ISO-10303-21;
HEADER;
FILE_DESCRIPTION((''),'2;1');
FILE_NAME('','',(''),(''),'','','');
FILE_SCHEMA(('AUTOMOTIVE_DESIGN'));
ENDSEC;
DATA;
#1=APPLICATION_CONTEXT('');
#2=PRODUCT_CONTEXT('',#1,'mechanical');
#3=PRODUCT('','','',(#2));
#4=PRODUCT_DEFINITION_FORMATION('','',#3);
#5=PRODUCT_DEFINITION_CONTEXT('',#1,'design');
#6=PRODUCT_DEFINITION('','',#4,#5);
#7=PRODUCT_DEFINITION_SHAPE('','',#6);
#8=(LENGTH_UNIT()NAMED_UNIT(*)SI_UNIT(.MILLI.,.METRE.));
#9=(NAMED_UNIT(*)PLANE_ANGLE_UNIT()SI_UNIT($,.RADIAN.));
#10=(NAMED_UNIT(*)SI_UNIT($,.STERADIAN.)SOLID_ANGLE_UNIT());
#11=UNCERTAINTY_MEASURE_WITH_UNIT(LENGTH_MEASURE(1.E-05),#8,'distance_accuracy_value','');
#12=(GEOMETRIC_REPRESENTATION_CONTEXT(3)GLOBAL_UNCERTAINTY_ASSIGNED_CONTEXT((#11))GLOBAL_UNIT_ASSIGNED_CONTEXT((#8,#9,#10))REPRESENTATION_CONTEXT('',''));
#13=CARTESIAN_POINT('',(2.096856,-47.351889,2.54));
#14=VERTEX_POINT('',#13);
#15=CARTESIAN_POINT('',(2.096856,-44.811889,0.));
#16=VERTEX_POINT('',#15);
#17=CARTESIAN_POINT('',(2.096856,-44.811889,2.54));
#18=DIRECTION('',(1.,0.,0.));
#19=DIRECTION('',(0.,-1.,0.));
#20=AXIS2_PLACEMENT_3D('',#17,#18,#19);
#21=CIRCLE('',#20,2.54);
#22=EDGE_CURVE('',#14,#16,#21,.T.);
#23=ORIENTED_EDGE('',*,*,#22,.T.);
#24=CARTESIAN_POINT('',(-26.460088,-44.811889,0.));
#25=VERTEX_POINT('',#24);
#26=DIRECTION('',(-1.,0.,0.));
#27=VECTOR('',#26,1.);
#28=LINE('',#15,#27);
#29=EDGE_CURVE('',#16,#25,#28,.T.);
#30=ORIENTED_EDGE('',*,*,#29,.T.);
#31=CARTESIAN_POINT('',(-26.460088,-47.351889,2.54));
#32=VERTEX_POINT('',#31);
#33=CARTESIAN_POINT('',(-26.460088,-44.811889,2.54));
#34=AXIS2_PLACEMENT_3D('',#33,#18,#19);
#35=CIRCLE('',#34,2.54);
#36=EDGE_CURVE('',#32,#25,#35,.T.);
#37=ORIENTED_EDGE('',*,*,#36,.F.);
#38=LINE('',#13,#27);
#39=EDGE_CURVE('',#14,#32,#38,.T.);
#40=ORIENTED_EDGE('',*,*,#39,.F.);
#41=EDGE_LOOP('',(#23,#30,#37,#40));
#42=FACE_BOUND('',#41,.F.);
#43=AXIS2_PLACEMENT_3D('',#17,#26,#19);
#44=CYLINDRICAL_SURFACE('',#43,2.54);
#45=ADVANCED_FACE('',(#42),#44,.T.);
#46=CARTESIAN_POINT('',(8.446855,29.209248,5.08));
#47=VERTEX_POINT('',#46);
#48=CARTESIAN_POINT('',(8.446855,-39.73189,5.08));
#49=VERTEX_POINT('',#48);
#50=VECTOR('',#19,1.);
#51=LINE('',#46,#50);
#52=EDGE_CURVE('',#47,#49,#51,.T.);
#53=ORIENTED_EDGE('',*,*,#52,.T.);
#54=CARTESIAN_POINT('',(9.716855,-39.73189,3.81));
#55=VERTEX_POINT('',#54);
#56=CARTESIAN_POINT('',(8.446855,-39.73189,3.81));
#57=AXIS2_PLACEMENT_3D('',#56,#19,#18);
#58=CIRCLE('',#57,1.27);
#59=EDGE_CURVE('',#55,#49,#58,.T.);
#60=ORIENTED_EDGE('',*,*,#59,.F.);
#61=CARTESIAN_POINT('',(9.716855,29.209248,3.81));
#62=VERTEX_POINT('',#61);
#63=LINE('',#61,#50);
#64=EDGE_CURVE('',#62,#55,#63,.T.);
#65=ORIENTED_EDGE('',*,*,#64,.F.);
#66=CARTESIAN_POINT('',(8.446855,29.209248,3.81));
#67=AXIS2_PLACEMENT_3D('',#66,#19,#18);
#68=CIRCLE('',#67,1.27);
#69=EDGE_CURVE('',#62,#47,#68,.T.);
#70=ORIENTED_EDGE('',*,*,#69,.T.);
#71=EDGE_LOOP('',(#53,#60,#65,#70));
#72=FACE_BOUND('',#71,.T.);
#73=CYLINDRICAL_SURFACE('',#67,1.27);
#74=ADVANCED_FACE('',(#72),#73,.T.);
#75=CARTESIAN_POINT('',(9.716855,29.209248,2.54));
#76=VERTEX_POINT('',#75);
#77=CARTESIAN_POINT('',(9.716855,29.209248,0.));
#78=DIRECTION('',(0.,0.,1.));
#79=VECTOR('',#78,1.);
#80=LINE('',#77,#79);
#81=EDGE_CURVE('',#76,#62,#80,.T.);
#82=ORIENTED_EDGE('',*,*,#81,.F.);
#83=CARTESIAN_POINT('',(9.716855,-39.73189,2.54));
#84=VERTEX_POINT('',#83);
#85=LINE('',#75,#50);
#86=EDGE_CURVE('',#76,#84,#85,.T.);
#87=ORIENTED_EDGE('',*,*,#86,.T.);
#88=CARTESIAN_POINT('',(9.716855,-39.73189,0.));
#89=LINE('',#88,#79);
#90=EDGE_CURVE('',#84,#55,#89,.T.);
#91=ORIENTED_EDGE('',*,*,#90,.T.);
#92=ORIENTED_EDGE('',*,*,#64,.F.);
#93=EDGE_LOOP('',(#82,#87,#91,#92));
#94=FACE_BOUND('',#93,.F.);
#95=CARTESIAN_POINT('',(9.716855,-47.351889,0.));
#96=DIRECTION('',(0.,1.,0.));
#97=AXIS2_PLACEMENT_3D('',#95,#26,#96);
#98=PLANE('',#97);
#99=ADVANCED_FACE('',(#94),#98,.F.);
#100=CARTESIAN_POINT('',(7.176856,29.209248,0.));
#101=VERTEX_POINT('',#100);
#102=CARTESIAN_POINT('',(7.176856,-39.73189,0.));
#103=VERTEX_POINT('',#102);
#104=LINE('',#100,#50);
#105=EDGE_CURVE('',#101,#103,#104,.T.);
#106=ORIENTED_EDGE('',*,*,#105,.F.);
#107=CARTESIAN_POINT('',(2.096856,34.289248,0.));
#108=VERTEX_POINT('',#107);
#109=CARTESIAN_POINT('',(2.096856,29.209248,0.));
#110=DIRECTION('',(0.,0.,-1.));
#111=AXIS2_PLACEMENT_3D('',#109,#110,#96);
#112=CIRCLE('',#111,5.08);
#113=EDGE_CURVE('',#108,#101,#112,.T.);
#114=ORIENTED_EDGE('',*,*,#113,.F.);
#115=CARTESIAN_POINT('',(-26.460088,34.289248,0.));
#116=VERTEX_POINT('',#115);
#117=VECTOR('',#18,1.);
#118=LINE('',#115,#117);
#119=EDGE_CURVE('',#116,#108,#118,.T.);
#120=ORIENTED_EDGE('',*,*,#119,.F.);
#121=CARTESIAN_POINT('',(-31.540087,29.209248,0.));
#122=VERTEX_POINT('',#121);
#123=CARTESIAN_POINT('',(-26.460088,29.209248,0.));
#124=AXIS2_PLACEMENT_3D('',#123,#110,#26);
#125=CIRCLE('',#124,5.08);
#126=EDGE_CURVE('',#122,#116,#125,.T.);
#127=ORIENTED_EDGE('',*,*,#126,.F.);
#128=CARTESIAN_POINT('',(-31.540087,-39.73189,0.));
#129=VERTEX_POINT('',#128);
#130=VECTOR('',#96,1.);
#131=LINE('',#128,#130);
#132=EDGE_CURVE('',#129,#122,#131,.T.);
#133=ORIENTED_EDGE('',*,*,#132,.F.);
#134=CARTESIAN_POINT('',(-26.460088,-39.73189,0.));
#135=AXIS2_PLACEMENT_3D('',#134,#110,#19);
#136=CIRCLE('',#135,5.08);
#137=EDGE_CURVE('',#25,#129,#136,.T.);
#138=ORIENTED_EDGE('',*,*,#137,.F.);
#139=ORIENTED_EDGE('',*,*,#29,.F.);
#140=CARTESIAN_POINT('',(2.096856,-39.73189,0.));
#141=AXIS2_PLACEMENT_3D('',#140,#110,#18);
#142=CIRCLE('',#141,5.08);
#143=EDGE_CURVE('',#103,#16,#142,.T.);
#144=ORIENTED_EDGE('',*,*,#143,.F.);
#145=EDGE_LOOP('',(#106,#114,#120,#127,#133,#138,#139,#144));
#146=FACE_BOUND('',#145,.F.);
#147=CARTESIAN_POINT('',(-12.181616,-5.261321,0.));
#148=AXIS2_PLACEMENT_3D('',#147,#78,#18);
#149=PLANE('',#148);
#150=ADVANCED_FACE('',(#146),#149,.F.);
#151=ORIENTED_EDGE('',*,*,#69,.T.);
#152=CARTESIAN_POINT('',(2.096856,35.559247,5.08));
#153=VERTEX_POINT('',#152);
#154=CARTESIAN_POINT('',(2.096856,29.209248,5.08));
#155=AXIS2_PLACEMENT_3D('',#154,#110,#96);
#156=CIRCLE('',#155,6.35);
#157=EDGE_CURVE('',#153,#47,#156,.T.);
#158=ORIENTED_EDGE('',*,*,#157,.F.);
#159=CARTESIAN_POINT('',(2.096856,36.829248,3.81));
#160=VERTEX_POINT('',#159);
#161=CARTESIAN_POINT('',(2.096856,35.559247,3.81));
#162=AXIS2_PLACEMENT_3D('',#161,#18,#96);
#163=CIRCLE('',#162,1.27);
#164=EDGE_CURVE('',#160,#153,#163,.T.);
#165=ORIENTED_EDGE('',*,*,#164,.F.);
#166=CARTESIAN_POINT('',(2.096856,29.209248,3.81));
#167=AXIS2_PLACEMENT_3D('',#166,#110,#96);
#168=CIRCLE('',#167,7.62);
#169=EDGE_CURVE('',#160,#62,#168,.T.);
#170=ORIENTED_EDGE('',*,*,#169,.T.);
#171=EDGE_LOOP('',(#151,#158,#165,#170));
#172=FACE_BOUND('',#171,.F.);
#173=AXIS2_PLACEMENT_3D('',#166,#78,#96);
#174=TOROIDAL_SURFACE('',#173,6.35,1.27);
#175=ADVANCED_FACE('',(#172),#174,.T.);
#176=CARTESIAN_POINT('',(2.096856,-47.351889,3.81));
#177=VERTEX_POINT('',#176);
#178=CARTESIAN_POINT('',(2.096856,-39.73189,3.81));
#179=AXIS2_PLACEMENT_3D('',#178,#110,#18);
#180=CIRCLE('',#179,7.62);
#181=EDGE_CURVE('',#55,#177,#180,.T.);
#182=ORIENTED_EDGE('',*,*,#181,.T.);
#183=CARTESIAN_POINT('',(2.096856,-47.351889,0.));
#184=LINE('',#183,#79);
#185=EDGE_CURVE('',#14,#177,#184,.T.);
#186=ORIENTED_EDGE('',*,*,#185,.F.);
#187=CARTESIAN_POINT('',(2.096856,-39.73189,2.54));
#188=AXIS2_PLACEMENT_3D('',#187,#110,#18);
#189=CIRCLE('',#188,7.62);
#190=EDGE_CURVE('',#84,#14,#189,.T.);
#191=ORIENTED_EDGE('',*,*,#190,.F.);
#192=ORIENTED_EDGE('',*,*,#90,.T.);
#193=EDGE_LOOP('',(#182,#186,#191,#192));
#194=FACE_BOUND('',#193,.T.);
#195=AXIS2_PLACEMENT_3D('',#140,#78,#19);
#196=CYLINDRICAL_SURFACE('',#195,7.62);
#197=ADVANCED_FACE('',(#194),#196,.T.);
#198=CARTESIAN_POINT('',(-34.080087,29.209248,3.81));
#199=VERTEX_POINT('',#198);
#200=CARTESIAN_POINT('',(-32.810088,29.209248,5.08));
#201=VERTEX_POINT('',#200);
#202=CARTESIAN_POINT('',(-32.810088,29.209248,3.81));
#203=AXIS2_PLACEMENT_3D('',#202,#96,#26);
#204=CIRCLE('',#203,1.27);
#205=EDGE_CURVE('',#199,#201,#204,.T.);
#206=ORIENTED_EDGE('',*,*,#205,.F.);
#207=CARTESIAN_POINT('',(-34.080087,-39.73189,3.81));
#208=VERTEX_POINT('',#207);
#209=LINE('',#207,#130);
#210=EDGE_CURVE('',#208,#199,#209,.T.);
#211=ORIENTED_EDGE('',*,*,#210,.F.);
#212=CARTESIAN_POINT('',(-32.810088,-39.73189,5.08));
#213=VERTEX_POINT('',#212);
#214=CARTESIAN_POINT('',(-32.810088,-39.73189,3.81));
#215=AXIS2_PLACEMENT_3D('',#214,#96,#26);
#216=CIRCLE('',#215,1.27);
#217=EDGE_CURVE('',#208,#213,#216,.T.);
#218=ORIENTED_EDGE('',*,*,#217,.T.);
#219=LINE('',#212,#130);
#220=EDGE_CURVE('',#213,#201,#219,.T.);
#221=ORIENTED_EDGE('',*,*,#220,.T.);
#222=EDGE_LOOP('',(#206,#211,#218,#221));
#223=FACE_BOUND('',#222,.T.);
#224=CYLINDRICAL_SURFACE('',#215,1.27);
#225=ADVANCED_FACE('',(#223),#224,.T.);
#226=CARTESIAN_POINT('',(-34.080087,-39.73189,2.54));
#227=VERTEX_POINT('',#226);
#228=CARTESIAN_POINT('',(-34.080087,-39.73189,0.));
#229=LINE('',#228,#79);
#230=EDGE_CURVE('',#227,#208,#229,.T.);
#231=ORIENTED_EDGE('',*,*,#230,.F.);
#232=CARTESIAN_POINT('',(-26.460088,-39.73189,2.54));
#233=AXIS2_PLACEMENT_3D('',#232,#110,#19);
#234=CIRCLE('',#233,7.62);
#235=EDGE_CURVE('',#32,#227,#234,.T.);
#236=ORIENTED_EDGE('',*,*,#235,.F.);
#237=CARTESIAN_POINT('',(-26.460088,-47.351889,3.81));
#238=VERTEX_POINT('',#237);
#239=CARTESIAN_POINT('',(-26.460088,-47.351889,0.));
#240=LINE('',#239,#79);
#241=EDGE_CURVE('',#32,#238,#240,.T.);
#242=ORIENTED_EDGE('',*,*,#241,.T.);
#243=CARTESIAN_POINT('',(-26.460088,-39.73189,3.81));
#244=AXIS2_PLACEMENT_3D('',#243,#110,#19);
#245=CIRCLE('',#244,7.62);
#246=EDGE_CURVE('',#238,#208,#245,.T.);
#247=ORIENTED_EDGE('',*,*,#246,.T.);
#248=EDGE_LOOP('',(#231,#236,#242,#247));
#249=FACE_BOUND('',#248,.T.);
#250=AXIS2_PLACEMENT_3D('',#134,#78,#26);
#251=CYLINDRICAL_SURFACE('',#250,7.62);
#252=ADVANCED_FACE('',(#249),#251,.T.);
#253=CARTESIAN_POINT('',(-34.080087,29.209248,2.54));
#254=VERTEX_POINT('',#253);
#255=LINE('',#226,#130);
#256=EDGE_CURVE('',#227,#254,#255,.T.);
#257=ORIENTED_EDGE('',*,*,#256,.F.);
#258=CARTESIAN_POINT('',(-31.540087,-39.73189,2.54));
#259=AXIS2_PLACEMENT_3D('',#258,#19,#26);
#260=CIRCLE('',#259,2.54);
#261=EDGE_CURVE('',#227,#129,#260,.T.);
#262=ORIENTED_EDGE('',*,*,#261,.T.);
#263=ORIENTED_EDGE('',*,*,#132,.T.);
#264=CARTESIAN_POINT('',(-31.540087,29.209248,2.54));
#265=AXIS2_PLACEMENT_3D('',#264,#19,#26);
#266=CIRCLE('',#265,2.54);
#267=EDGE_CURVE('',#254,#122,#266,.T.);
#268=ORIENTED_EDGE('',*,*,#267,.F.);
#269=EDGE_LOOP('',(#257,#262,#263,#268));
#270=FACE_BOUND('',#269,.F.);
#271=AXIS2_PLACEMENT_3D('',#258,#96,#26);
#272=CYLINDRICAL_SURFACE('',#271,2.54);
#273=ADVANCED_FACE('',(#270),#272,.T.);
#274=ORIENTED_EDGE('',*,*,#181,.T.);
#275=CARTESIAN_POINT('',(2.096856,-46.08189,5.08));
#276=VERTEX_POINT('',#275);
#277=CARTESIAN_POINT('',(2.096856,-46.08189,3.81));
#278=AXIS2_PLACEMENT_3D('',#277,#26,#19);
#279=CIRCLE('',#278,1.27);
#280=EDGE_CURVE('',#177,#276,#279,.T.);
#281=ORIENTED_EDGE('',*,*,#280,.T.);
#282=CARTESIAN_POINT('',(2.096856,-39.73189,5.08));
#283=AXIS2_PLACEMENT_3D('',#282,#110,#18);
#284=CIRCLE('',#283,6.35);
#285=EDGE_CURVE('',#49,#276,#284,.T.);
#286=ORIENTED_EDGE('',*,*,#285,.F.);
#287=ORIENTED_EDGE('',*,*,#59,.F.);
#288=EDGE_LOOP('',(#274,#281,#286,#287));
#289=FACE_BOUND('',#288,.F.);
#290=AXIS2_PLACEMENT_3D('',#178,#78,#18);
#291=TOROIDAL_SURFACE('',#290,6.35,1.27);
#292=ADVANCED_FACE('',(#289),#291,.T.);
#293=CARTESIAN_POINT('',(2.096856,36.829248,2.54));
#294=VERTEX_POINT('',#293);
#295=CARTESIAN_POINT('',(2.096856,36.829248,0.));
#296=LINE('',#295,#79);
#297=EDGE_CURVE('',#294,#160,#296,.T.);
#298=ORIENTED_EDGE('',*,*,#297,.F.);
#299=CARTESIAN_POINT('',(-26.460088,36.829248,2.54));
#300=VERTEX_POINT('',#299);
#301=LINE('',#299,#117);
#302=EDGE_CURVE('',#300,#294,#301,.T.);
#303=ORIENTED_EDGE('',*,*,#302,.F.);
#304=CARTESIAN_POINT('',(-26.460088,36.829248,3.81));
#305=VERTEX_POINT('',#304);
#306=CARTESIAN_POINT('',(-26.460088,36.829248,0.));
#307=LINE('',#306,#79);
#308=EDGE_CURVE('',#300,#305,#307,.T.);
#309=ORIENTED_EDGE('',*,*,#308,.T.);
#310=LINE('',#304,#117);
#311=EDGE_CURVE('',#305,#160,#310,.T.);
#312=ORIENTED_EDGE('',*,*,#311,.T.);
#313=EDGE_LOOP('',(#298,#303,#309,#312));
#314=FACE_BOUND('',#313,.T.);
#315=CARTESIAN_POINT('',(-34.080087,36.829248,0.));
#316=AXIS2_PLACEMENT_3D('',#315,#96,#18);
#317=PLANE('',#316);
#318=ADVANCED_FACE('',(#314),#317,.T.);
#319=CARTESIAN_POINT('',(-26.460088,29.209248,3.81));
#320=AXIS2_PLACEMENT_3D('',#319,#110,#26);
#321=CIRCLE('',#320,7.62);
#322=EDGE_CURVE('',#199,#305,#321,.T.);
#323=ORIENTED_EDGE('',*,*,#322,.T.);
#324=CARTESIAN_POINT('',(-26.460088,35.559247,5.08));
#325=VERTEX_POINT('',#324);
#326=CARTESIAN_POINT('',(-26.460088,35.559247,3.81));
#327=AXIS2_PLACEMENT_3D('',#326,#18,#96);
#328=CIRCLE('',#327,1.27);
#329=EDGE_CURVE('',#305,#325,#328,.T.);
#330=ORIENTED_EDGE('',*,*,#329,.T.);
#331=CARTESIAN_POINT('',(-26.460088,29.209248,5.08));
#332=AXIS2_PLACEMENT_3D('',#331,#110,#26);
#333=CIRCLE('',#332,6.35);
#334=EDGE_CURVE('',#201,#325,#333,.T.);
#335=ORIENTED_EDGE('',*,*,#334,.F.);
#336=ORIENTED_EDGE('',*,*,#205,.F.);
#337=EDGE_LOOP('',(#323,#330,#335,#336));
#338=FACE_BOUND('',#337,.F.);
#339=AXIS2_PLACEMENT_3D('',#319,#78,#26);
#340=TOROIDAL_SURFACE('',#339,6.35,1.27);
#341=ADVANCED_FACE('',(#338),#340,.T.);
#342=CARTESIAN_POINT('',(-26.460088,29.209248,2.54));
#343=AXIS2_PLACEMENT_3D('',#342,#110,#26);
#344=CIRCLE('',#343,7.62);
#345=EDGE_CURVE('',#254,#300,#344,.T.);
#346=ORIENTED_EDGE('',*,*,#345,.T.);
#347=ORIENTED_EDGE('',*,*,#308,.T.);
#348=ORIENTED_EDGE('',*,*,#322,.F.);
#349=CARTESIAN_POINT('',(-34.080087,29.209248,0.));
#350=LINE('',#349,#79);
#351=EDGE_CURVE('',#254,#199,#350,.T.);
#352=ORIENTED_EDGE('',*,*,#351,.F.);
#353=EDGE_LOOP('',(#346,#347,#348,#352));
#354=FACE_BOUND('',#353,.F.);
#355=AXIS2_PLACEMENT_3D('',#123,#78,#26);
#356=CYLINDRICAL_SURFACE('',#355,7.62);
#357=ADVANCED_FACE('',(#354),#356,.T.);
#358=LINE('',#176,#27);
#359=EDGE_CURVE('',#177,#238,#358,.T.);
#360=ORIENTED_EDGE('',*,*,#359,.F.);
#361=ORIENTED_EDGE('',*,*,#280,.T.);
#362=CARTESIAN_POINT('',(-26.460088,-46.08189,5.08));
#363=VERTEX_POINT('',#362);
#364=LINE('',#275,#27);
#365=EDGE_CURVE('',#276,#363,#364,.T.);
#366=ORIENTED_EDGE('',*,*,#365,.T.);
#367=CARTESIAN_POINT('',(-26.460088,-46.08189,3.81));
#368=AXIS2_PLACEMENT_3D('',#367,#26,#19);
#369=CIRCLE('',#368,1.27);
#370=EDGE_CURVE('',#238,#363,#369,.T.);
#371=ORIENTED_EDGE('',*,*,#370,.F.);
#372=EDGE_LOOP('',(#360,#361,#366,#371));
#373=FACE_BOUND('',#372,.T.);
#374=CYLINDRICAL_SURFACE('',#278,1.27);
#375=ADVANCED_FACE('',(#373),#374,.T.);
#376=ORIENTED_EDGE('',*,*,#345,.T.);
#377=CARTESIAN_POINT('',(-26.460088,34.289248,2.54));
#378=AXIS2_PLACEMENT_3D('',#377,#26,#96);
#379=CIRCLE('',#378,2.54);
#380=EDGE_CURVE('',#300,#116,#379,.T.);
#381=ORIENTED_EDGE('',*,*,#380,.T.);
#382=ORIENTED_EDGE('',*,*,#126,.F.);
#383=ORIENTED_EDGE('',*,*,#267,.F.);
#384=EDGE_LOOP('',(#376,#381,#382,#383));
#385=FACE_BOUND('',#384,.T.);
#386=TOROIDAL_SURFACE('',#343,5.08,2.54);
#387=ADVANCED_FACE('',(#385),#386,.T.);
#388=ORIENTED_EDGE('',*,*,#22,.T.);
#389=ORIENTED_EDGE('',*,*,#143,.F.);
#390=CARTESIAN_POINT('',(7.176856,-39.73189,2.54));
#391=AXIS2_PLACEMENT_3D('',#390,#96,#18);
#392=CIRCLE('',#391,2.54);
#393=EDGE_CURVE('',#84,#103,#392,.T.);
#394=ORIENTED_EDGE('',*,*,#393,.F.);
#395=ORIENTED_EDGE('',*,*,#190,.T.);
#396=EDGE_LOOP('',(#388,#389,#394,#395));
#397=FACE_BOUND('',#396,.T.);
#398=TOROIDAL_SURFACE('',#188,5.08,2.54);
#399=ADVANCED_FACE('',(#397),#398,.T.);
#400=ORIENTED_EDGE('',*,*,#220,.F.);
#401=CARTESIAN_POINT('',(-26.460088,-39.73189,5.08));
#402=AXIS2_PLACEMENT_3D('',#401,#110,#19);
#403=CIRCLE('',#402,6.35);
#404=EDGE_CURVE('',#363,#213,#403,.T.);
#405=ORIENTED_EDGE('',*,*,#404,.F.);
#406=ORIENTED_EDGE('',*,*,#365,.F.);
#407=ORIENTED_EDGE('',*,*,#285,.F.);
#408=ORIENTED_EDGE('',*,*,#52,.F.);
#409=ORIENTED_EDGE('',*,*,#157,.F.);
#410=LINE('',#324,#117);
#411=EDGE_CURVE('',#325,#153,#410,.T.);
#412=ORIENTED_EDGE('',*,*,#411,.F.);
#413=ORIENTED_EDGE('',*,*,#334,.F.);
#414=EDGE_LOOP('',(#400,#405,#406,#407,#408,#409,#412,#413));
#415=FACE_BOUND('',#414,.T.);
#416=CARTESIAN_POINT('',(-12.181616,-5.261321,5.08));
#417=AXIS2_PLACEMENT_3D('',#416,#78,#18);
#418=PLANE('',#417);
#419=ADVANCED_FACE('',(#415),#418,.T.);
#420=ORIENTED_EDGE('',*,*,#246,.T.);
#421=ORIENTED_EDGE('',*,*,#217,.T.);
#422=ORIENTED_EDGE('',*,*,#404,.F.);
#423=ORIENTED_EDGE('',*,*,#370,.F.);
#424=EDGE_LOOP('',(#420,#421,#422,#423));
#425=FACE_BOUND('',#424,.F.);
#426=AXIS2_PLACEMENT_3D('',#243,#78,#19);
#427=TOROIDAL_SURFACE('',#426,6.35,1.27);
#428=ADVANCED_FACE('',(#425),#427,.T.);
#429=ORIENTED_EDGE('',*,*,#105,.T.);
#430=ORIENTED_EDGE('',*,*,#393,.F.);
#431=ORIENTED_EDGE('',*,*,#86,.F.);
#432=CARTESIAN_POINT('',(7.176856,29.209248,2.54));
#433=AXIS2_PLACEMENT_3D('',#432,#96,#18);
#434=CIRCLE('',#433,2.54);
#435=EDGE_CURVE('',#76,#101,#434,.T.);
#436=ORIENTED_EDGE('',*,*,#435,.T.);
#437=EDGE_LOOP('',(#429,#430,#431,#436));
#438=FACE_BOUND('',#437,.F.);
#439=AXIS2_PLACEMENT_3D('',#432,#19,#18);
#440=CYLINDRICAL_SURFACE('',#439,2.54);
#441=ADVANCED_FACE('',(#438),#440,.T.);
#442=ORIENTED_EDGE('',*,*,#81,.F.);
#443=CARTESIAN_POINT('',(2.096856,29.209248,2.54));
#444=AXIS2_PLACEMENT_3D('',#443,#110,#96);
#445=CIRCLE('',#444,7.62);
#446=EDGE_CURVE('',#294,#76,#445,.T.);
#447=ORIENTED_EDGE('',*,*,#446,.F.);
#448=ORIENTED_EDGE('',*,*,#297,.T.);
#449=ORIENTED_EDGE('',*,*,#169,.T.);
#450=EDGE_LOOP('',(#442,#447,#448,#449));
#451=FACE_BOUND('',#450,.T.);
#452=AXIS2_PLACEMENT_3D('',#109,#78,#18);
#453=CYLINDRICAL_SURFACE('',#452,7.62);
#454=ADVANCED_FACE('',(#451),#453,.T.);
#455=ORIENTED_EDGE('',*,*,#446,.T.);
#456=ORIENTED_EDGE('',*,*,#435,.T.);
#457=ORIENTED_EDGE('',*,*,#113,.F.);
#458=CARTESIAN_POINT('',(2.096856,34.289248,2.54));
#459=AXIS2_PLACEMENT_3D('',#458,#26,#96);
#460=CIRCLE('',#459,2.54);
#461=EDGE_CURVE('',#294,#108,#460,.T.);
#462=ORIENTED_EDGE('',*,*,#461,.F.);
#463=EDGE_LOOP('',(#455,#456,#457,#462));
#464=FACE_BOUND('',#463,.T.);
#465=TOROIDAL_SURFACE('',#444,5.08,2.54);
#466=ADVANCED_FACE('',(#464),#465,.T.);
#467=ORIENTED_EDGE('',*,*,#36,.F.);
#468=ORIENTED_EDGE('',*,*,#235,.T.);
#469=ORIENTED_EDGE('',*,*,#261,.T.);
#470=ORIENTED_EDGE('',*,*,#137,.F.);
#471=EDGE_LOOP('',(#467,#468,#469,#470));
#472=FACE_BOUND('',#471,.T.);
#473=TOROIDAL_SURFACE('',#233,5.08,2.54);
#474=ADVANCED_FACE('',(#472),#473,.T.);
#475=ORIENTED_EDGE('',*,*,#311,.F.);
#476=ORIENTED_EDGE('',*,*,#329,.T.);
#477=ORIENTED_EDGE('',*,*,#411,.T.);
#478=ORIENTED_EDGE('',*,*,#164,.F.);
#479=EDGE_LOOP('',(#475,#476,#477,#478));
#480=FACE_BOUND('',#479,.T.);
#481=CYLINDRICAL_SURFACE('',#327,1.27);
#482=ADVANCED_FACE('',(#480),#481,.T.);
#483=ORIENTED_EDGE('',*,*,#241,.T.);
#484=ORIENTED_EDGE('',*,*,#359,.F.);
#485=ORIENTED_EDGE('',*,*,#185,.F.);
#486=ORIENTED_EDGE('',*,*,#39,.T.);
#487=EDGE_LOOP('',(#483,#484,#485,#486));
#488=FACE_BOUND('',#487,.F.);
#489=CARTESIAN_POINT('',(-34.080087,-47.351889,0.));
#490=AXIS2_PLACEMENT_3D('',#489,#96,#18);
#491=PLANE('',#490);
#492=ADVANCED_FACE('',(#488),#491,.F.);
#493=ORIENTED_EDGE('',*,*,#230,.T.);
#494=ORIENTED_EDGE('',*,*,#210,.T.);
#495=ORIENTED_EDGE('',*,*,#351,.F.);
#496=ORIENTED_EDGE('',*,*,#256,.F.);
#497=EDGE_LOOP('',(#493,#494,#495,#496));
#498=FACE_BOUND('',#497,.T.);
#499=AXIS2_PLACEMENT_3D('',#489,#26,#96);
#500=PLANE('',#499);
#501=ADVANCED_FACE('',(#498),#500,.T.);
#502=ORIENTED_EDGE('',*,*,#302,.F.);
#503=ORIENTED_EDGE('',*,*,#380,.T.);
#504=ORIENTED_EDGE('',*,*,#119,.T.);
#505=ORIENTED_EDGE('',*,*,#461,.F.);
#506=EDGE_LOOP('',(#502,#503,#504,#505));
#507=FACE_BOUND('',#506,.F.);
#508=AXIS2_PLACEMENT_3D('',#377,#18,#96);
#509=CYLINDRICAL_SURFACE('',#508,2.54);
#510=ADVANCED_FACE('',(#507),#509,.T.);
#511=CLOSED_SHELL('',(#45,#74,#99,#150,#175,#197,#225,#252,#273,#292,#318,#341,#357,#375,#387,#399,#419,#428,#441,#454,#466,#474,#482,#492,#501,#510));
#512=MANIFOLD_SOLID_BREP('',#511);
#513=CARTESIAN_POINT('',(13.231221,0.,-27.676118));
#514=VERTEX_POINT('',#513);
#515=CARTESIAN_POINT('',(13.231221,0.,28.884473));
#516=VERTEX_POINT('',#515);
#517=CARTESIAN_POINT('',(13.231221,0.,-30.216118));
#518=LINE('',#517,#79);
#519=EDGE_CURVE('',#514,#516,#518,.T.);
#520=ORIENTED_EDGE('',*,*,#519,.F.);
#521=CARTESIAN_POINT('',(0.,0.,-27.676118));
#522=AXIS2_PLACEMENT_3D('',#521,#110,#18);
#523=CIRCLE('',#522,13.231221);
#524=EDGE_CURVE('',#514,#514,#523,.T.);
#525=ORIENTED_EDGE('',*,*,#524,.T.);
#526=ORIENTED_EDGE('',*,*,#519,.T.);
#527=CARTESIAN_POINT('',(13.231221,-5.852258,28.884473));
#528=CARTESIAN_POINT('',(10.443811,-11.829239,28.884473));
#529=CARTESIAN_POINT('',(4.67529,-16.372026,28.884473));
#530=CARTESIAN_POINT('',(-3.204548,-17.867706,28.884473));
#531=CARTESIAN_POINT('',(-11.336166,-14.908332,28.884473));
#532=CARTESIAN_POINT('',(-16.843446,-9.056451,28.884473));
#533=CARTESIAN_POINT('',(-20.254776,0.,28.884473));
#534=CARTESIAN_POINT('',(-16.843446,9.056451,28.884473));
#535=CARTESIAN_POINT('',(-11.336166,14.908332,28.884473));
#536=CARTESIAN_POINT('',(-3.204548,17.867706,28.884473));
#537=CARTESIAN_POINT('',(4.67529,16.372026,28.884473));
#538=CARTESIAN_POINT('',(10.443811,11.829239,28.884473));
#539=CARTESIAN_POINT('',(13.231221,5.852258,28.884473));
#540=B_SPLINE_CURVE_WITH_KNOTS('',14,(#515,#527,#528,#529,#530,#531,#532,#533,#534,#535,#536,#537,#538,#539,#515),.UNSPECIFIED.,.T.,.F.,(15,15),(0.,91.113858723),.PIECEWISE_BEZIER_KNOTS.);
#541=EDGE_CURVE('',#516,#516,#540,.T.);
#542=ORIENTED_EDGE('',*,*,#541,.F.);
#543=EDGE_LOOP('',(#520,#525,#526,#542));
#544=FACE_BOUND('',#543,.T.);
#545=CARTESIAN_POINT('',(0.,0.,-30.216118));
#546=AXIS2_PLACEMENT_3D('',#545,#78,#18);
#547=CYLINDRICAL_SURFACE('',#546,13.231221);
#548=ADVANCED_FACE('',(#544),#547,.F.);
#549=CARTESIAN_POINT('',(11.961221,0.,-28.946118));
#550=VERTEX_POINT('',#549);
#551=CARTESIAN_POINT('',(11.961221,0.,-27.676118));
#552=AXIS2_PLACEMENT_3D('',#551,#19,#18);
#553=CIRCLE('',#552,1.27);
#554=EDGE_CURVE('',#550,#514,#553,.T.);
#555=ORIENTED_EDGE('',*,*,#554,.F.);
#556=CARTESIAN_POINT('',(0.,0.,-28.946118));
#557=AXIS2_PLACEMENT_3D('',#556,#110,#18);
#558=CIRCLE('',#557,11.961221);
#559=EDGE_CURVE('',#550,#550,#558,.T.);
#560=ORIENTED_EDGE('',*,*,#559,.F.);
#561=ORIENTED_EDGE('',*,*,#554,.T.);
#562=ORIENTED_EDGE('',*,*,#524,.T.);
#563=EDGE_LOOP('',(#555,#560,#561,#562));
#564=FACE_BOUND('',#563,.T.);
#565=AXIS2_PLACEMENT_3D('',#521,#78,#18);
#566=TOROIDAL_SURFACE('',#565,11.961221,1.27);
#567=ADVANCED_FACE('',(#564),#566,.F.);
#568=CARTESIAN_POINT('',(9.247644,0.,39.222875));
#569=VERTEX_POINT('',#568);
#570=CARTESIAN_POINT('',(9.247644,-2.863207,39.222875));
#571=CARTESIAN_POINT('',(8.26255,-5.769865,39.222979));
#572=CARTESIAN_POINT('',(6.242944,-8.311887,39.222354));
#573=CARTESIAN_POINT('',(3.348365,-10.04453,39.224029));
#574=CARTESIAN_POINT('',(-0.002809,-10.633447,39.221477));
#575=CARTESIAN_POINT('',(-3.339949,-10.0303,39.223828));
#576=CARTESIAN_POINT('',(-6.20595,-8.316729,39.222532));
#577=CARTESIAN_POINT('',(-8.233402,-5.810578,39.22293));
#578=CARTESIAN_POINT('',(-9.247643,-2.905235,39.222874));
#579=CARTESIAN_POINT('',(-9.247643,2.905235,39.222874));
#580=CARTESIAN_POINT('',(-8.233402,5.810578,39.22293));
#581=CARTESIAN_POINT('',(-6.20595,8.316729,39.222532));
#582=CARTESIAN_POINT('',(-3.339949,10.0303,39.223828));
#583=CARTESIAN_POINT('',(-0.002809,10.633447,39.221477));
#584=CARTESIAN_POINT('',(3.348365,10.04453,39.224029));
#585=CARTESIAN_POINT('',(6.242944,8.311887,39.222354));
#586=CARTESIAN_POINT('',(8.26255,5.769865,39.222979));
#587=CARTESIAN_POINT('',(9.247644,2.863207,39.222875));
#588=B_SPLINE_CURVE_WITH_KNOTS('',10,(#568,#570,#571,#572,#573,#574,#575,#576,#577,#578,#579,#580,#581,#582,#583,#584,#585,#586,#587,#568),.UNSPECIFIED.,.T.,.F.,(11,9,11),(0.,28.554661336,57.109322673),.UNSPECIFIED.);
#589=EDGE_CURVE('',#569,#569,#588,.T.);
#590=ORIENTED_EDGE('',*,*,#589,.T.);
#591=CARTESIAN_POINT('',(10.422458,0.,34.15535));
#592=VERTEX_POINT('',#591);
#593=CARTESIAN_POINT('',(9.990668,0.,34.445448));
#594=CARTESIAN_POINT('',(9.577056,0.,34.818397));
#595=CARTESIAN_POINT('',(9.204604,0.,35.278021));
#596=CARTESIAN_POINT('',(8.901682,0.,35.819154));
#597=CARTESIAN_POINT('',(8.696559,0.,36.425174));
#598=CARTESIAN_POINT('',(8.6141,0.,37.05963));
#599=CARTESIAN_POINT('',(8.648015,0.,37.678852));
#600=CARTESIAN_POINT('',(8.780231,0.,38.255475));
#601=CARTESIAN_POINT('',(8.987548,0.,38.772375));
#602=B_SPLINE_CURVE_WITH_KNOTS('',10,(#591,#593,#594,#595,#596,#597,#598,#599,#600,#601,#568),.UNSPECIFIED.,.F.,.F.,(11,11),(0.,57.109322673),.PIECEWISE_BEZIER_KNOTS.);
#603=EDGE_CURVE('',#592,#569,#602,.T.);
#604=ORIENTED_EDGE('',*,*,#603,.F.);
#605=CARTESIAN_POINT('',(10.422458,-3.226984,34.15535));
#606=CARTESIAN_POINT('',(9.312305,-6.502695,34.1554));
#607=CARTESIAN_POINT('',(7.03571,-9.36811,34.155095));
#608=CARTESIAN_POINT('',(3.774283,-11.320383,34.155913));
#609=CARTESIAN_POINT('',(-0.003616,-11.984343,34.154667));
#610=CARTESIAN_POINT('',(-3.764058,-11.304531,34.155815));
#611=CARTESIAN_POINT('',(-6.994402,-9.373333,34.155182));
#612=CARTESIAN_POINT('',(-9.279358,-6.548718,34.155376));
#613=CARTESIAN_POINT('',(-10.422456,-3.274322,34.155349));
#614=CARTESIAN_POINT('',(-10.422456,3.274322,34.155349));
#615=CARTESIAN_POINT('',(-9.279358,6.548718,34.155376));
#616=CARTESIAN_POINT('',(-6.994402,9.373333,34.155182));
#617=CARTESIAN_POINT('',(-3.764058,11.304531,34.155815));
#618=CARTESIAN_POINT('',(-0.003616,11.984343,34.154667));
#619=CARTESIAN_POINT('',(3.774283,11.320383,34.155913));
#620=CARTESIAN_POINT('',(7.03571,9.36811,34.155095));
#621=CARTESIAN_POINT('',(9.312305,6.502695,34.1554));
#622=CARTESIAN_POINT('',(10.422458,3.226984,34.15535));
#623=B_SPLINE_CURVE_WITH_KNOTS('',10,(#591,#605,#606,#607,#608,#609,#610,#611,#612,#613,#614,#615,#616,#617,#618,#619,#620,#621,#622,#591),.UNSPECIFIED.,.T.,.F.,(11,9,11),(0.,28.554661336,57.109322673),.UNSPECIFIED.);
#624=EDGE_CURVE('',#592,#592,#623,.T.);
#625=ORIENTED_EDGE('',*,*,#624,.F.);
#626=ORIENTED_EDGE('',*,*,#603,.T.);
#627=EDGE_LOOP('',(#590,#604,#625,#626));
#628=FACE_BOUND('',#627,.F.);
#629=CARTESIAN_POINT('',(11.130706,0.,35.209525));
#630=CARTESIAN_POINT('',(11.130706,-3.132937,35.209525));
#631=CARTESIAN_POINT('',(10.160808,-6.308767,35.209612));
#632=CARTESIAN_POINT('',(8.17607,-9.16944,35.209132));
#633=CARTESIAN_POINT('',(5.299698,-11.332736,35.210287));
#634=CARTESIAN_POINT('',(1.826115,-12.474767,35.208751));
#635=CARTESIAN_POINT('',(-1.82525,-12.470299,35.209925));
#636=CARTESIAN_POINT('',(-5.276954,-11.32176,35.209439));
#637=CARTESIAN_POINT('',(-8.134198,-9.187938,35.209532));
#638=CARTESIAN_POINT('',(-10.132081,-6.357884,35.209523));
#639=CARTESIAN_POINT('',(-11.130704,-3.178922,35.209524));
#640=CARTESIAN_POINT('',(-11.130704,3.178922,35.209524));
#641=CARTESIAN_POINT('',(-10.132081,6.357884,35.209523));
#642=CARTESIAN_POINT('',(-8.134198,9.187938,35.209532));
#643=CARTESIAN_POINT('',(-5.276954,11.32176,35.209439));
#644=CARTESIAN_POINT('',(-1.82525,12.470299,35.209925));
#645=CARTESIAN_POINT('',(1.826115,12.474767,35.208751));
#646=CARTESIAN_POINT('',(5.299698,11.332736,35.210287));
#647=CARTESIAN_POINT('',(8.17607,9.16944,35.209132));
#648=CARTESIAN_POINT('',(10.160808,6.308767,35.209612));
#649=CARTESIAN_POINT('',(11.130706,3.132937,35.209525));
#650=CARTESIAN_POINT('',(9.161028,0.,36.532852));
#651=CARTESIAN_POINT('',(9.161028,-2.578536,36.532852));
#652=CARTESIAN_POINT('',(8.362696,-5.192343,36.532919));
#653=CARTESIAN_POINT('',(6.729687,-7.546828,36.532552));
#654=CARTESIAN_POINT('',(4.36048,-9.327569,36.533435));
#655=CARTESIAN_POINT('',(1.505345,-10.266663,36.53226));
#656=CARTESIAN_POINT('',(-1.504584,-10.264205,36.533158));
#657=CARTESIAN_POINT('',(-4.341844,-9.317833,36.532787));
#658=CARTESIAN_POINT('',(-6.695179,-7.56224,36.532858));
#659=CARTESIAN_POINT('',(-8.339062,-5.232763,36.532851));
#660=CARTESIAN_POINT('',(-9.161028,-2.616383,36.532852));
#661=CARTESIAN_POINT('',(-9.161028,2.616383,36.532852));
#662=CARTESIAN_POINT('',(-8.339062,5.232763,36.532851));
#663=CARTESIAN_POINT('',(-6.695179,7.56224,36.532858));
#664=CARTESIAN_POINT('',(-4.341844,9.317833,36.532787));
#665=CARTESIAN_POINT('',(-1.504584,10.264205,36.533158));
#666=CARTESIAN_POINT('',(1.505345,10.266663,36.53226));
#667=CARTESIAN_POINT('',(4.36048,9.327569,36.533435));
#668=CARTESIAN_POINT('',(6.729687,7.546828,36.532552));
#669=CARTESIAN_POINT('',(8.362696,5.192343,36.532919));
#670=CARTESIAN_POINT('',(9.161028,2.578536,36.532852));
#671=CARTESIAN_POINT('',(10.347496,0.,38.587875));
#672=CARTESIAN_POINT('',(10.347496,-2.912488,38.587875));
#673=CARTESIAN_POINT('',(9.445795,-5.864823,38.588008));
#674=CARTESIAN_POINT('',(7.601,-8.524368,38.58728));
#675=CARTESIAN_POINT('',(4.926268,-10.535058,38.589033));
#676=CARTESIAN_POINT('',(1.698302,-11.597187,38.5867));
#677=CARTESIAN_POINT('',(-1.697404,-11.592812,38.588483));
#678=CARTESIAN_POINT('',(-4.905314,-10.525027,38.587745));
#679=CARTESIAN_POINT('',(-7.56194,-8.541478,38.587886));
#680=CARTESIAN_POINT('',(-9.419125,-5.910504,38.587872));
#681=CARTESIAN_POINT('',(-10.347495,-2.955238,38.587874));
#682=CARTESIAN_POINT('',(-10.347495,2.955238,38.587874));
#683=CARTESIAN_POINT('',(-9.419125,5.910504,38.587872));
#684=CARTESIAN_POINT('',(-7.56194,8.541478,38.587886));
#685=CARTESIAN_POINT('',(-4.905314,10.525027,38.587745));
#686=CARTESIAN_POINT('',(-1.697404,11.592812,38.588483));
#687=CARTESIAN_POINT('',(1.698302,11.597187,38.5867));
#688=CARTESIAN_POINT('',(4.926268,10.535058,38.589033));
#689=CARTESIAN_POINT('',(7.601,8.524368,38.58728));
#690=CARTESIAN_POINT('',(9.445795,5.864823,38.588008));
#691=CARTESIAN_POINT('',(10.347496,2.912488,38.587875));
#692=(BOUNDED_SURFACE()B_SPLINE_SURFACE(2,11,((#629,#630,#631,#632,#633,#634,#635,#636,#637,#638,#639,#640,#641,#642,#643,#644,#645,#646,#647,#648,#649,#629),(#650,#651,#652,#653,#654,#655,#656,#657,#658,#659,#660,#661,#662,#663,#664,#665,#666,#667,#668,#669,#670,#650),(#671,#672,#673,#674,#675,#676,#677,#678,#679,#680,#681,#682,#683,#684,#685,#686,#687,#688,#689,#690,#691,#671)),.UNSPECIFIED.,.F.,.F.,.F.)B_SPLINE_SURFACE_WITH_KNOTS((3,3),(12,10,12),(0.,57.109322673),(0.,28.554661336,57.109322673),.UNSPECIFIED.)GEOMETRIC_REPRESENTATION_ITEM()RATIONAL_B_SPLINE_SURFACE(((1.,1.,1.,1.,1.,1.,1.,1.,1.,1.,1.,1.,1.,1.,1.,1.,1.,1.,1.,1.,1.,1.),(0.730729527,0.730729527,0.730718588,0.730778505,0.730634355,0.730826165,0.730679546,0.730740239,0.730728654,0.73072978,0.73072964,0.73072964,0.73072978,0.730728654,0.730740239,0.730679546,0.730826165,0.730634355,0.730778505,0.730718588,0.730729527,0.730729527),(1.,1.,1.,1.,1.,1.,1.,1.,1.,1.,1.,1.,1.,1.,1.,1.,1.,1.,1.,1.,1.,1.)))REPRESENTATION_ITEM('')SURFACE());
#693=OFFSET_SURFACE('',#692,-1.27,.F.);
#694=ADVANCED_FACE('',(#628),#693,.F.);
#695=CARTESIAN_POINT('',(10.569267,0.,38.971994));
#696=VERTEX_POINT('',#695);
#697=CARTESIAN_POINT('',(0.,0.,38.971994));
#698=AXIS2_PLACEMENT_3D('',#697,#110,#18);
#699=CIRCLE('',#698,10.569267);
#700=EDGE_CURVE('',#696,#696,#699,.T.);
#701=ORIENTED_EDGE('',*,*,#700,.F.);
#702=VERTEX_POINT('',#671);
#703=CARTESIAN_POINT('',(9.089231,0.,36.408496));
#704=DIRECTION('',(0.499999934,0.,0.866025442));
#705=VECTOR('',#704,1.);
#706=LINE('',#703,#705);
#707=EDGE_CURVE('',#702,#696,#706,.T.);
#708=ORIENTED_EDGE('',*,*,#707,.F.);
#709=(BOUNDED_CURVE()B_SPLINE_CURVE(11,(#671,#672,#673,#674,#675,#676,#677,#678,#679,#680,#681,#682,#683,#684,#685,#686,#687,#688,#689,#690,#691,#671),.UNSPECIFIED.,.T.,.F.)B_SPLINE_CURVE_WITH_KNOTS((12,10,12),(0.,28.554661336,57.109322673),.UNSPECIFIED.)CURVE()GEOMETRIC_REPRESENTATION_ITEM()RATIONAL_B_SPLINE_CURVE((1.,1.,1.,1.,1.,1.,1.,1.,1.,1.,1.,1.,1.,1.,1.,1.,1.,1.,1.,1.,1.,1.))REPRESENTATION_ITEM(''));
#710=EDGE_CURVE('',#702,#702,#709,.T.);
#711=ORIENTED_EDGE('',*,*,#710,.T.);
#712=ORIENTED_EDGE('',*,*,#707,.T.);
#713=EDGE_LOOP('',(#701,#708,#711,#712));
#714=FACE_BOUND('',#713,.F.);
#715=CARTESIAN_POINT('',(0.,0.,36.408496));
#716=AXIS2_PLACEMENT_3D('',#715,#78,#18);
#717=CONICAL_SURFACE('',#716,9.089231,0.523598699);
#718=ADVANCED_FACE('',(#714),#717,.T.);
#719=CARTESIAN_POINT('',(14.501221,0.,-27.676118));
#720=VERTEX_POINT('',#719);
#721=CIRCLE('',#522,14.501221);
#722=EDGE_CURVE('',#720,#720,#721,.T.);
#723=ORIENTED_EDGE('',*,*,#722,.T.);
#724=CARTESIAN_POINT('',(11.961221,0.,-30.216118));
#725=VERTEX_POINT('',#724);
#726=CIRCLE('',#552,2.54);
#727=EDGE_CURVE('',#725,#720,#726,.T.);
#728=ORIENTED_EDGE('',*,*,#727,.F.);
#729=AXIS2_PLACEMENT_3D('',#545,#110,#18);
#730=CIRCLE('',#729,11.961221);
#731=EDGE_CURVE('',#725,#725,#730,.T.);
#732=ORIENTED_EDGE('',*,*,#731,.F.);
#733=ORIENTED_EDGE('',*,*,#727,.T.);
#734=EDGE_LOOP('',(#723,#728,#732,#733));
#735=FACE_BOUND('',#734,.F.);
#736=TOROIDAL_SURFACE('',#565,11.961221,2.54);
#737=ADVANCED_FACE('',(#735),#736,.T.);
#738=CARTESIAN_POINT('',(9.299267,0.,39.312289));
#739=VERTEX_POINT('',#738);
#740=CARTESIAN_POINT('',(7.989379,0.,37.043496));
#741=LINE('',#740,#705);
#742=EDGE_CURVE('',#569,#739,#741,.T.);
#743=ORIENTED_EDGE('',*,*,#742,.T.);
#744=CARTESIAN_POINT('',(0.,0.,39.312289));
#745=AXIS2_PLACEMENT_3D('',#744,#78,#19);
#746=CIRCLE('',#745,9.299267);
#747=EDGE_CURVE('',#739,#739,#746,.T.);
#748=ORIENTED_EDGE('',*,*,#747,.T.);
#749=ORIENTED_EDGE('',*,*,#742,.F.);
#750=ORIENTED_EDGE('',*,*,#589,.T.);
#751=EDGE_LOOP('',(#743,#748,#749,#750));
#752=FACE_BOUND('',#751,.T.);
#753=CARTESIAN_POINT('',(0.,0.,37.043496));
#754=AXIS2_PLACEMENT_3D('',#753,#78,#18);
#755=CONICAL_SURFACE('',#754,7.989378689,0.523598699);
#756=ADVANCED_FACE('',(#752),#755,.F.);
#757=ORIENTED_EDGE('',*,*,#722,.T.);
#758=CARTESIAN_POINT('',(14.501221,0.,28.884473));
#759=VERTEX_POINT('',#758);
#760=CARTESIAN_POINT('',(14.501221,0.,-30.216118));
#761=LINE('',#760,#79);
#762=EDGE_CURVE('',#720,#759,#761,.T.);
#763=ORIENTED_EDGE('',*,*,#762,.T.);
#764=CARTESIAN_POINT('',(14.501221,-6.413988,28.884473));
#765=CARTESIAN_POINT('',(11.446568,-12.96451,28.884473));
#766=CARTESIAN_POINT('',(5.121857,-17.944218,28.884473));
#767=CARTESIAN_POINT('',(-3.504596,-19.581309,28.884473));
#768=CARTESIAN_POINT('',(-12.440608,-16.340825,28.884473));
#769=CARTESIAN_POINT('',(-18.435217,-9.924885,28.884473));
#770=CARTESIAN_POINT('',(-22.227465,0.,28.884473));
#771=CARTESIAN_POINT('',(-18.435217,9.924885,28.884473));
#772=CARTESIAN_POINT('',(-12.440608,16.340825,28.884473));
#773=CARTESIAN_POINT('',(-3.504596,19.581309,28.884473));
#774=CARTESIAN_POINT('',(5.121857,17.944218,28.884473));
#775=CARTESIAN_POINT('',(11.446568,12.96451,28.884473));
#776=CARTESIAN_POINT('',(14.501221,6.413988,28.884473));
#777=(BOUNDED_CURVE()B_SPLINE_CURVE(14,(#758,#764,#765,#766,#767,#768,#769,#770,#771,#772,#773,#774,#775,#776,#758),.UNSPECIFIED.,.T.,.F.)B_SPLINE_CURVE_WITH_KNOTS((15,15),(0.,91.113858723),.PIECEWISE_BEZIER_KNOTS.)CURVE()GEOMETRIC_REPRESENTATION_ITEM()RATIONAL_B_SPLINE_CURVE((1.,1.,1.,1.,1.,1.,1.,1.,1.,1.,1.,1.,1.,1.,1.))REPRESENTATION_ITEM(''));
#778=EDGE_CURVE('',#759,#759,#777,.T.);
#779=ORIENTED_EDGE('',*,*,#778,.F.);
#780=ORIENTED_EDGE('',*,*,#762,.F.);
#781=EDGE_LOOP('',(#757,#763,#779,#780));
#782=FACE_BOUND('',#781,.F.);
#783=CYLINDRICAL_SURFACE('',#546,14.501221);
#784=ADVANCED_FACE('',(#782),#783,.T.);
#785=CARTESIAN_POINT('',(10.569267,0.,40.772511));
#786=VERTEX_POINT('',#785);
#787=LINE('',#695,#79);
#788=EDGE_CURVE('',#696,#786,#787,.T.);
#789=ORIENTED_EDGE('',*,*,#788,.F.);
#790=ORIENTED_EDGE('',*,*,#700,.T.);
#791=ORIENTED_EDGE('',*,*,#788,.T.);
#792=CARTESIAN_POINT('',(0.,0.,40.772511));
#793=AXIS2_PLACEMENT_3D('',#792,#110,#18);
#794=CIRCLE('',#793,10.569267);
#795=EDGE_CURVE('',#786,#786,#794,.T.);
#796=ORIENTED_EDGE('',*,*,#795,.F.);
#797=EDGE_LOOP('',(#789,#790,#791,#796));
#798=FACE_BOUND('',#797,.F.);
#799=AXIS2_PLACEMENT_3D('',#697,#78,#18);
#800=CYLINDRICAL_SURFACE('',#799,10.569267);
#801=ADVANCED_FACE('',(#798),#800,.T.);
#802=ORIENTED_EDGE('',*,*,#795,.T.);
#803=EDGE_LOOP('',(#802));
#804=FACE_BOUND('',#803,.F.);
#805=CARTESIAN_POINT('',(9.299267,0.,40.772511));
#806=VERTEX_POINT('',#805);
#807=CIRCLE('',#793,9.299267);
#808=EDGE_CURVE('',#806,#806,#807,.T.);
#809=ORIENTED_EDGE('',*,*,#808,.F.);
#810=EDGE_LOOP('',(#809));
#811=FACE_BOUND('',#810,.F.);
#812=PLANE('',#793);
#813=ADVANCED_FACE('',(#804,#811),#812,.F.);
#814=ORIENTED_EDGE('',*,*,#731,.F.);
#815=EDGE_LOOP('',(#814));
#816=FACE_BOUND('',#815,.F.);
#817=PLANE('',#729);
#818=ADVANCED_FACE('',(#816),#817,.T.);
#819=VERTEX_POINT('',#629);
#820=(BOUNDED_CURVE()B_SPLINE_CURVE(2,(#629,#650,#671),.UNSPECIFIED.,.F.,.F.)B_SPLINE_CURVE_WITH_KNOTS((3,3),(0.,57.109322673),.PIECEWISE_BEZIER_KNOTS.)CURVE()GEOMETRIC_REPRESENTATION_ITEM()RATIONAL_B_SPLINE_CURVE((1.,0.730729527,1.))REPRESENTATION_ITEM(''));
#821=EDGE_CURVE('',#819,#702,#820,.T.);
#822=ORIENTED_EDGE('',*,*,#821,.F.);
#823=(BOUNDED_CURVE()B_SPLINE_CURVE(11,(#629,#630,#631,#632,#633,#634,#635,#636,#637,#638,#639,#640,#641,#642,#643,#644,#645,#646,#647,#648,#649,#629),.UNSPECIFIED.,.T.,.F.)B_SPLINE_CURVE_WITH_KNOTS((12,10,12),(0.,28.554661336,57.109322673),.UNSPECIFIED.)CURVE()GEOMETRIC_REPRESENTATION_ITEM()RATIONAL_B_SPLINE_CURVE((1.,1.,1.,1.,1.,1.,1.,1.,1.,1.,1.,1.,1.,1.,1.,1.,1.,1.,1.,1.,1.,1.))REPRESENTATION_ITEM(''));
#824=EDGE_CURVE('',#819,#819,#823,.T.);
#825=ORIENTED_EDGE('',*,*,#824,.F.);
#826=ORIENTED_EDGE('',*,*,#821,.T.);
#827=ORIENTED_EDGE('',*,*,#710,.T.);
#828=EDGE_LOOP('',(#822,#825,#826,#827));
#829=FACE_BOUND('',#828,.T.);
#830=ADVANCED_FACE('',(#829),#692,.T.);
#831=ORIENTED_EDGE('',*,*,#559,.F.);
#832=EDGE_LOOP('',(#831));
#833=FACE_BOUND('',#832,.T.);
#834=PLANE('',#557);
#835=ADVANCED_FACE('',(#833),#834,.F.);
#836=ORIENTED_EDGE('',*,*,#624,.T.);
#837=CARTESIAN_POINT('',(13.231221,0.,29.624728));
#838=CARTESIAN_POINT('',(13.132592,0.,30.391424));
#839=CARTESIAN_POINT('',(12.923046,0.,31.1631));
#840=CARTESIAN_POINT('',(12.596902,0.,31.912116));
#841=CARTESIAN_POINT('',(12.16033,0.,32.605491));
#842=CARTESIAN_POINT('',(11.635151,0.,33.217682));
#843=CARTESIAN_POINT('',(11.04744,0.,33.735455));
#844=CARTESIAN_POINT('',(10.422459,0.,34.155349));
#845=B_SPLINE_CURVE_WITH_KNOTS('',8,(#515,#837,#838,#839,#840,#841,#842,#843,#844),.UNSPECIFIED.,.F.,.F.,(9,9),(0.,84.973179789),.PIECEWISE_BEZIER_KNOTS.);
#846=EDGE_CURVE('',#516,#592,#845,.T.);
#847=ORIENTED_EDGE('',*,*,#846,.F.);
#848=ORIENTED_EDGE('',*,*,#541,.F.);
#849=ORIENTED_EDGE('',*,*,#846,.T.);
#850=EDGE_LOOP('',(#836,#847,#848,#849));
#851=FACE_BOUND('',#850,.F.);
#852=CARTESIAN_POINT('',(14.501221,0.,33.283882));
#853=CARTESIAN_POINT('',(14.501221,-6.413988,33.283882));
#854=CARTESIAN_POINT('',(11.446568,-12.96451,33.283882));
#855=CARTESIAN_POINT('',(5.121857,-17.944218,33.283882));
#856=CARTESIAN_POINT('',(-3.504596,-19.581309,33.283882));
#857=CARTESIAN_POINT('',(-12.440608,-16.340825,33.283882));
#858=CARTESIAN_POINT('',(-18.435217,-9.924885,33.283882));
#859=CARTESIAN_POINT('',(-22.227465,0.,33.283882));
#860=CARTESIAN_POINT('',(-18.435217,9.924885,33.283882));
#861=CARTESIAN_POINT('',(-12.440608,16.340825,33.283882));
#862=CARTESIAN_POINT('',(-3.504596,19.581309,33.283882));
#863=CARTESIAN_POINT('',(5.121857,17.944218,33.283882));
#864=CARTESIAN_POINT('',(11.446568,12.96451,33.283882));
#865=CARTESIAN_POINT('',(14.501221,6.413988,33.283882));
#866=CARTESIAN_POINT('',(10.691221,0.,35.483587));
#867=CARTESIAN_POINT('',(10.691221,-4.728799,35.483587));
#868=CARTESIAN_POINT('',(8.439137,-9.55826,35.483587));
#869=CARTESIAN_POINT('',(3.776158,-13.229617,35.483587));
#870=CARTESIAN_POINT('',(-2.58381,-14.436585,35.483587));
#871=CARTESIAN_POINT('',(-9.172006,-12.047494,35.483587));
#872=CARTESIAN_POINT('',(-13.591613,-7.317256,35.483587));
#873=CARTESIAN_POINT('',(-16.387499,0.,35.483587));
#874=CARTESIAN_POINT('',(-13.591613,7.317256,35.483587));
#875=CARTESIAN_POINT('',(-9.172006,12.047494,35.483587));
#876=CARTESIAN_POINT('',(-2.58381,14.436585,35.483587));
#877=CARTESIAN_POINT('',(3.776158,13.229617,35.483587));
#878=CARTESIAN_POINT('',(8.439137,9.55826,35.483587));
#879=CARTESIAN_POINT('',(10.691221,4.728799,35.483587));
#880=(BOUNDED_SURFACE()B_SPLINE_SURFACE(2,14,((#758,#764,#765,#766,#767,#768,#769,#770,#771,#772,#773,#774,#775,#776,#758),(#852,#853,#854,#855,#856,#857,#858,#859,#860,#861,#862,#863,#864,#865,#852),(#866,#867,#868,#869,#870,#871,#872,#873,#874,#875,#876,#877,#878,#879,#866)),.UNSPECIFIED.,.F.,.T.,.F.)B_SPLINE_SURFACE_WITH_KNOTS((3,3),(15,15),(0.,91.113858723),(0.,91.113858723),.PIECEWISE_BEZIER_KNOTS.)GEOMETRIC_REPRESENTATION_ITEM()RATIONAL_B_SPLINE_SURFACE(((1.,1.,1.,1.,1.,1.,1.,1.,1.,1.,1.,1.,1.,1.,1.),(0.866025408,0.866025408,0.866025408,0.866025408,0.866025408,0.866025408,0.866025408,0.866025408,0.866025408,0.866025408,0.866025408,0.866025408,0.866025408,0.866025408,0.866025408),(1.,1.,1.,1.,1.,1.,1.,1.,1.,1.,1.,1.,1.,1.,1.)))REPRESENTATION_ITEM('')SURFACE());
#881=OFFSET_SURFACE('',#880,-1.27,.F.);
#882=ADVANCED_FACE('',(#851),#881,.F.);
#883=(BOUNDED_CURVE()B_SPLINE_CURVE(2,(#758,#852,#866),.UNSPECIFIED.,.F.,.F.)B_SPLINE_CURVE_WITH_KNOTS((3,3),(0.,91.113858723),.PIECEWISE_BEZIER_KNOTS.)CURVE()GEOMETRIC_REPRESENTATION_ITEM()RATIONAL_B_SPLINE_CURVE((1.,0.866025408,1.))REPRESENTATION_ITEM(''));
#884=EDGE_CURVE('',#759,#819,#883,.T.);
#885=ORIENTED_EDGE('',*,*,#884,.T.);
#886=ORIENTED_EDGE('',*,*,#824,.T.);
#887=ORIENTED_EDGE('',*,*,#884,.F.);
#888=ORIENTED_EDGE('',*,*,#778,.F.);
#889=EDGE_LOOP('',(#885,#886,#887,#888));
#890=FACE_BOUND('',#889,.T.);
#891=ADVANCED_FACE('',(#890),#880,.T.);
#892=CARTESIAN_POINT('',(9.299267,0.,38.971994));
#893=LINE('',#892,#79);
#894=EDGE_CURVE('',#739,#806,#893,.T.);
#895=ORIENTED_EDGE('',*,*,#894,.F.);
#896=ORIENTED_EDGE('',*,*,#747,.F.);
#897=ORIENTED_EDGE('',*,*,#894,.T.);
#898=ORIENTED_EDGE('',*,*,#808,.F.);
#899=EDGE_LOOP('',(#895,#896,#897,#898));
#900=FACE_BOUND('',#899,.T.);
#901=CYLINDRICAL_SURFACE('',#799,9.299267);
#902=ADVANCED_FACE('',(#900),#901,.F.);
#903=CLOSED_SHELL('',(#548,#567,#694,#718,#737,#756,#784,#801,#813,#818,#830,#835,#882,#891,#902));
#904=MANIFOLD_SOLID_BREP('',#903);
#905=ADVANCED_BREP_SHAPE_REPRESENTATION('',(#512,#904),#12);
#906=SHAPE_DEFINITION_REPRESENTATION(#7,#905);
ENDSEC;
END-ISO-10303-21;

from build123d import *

# Parameters (mm, degrees)
F0_W     = 43.796943
F0_H     = 84.181137
F1_DEPTH = 5.08
F2_R     = 7.62
F3_R     = 2.54
F4_R     = 1.27
F7_R     = 2.54
F8_R     = 7.62
F9_R     = 2.54
F10_T    = -1.27


with BuildPart() as f1:
    # F0 (on Top) → F1 (new body)
    with BuildSketch(Plane.XY):
        with Locations((-12.181616, -5.261321)):
            Rectangle(F0_W, F0_H)
    extrude(amount=F1_DEPTH)

    # F2
    f2_edges = [f1.edges().sort_by_distance(p)[0] for p in [
        (-34.080088, -47.351889, 2.54),
        (9.716855, -47.351889, 2.54),
        (9.716855, 36.829248, 2.54),
        (-34.080088, 36.829248, 2.54),
    ]]
    fillet(f2_edges, radius=F2_R)

    # F3
    f3_edges = [f1.edges().sort_by_distance(p)[0] for p in [
        (-34.080088, -5.261321, 0),
    ]]
    fillet(f3_edges, radius=F3_R)

    # F4
    f4_edges = [f1.edges().sort_by_distance(p)[0] for p in [
        (-34.080088, -5.261321, 5.08),
    ]]
    fillet(f4_edges, radius=F4_R)


with BuildPart() as f6:
    # F5 (on Front) → F6 (revolve)
    with BuildSketch(Plane.XZ):
        Polygon((0, 32.432933), (0, -30.216118), (14.501221, -30.216118), (14.501221, 33.283882), (9.089231, 36.408496), (10.569267, 38.971994), (10.569267, 40.772511), (0, 40.772511), align=None)
    revolve(axis=Axis((0, 0, 1.108407), (0, 0, -1)))

    # F7
    f7_edges = [f6.edges().sort_by_distance(p)[0] for p in [
        (-14.501221, 0, -30.216118),
    ]]
    fillet(f7_edges, radius=F7_R)

    # F8
    f8_edges = [f6.edges().sort_by_distance(p)[0] for p in [
        (-14.501221, 0, 33.283882),
    ]]
    fillet(f8_edges, radius=F8_R)

    # F9
    f9_edges = [f6.edges().sort_by_distance(p)[0] for p in [
        (-9.089231, 0, 36.408496),
    ]]
    fillet(f9_edges, radius=F9_R)

    # F10
    f10_openings = [f6.faces().sort_by_distance(p)[0] for p in [
        (0, 0, 40.772511),
    ]]
    offset(amount=F10_T, openings=f10_openings)


solid = Compound([f1.part, f6.part])
